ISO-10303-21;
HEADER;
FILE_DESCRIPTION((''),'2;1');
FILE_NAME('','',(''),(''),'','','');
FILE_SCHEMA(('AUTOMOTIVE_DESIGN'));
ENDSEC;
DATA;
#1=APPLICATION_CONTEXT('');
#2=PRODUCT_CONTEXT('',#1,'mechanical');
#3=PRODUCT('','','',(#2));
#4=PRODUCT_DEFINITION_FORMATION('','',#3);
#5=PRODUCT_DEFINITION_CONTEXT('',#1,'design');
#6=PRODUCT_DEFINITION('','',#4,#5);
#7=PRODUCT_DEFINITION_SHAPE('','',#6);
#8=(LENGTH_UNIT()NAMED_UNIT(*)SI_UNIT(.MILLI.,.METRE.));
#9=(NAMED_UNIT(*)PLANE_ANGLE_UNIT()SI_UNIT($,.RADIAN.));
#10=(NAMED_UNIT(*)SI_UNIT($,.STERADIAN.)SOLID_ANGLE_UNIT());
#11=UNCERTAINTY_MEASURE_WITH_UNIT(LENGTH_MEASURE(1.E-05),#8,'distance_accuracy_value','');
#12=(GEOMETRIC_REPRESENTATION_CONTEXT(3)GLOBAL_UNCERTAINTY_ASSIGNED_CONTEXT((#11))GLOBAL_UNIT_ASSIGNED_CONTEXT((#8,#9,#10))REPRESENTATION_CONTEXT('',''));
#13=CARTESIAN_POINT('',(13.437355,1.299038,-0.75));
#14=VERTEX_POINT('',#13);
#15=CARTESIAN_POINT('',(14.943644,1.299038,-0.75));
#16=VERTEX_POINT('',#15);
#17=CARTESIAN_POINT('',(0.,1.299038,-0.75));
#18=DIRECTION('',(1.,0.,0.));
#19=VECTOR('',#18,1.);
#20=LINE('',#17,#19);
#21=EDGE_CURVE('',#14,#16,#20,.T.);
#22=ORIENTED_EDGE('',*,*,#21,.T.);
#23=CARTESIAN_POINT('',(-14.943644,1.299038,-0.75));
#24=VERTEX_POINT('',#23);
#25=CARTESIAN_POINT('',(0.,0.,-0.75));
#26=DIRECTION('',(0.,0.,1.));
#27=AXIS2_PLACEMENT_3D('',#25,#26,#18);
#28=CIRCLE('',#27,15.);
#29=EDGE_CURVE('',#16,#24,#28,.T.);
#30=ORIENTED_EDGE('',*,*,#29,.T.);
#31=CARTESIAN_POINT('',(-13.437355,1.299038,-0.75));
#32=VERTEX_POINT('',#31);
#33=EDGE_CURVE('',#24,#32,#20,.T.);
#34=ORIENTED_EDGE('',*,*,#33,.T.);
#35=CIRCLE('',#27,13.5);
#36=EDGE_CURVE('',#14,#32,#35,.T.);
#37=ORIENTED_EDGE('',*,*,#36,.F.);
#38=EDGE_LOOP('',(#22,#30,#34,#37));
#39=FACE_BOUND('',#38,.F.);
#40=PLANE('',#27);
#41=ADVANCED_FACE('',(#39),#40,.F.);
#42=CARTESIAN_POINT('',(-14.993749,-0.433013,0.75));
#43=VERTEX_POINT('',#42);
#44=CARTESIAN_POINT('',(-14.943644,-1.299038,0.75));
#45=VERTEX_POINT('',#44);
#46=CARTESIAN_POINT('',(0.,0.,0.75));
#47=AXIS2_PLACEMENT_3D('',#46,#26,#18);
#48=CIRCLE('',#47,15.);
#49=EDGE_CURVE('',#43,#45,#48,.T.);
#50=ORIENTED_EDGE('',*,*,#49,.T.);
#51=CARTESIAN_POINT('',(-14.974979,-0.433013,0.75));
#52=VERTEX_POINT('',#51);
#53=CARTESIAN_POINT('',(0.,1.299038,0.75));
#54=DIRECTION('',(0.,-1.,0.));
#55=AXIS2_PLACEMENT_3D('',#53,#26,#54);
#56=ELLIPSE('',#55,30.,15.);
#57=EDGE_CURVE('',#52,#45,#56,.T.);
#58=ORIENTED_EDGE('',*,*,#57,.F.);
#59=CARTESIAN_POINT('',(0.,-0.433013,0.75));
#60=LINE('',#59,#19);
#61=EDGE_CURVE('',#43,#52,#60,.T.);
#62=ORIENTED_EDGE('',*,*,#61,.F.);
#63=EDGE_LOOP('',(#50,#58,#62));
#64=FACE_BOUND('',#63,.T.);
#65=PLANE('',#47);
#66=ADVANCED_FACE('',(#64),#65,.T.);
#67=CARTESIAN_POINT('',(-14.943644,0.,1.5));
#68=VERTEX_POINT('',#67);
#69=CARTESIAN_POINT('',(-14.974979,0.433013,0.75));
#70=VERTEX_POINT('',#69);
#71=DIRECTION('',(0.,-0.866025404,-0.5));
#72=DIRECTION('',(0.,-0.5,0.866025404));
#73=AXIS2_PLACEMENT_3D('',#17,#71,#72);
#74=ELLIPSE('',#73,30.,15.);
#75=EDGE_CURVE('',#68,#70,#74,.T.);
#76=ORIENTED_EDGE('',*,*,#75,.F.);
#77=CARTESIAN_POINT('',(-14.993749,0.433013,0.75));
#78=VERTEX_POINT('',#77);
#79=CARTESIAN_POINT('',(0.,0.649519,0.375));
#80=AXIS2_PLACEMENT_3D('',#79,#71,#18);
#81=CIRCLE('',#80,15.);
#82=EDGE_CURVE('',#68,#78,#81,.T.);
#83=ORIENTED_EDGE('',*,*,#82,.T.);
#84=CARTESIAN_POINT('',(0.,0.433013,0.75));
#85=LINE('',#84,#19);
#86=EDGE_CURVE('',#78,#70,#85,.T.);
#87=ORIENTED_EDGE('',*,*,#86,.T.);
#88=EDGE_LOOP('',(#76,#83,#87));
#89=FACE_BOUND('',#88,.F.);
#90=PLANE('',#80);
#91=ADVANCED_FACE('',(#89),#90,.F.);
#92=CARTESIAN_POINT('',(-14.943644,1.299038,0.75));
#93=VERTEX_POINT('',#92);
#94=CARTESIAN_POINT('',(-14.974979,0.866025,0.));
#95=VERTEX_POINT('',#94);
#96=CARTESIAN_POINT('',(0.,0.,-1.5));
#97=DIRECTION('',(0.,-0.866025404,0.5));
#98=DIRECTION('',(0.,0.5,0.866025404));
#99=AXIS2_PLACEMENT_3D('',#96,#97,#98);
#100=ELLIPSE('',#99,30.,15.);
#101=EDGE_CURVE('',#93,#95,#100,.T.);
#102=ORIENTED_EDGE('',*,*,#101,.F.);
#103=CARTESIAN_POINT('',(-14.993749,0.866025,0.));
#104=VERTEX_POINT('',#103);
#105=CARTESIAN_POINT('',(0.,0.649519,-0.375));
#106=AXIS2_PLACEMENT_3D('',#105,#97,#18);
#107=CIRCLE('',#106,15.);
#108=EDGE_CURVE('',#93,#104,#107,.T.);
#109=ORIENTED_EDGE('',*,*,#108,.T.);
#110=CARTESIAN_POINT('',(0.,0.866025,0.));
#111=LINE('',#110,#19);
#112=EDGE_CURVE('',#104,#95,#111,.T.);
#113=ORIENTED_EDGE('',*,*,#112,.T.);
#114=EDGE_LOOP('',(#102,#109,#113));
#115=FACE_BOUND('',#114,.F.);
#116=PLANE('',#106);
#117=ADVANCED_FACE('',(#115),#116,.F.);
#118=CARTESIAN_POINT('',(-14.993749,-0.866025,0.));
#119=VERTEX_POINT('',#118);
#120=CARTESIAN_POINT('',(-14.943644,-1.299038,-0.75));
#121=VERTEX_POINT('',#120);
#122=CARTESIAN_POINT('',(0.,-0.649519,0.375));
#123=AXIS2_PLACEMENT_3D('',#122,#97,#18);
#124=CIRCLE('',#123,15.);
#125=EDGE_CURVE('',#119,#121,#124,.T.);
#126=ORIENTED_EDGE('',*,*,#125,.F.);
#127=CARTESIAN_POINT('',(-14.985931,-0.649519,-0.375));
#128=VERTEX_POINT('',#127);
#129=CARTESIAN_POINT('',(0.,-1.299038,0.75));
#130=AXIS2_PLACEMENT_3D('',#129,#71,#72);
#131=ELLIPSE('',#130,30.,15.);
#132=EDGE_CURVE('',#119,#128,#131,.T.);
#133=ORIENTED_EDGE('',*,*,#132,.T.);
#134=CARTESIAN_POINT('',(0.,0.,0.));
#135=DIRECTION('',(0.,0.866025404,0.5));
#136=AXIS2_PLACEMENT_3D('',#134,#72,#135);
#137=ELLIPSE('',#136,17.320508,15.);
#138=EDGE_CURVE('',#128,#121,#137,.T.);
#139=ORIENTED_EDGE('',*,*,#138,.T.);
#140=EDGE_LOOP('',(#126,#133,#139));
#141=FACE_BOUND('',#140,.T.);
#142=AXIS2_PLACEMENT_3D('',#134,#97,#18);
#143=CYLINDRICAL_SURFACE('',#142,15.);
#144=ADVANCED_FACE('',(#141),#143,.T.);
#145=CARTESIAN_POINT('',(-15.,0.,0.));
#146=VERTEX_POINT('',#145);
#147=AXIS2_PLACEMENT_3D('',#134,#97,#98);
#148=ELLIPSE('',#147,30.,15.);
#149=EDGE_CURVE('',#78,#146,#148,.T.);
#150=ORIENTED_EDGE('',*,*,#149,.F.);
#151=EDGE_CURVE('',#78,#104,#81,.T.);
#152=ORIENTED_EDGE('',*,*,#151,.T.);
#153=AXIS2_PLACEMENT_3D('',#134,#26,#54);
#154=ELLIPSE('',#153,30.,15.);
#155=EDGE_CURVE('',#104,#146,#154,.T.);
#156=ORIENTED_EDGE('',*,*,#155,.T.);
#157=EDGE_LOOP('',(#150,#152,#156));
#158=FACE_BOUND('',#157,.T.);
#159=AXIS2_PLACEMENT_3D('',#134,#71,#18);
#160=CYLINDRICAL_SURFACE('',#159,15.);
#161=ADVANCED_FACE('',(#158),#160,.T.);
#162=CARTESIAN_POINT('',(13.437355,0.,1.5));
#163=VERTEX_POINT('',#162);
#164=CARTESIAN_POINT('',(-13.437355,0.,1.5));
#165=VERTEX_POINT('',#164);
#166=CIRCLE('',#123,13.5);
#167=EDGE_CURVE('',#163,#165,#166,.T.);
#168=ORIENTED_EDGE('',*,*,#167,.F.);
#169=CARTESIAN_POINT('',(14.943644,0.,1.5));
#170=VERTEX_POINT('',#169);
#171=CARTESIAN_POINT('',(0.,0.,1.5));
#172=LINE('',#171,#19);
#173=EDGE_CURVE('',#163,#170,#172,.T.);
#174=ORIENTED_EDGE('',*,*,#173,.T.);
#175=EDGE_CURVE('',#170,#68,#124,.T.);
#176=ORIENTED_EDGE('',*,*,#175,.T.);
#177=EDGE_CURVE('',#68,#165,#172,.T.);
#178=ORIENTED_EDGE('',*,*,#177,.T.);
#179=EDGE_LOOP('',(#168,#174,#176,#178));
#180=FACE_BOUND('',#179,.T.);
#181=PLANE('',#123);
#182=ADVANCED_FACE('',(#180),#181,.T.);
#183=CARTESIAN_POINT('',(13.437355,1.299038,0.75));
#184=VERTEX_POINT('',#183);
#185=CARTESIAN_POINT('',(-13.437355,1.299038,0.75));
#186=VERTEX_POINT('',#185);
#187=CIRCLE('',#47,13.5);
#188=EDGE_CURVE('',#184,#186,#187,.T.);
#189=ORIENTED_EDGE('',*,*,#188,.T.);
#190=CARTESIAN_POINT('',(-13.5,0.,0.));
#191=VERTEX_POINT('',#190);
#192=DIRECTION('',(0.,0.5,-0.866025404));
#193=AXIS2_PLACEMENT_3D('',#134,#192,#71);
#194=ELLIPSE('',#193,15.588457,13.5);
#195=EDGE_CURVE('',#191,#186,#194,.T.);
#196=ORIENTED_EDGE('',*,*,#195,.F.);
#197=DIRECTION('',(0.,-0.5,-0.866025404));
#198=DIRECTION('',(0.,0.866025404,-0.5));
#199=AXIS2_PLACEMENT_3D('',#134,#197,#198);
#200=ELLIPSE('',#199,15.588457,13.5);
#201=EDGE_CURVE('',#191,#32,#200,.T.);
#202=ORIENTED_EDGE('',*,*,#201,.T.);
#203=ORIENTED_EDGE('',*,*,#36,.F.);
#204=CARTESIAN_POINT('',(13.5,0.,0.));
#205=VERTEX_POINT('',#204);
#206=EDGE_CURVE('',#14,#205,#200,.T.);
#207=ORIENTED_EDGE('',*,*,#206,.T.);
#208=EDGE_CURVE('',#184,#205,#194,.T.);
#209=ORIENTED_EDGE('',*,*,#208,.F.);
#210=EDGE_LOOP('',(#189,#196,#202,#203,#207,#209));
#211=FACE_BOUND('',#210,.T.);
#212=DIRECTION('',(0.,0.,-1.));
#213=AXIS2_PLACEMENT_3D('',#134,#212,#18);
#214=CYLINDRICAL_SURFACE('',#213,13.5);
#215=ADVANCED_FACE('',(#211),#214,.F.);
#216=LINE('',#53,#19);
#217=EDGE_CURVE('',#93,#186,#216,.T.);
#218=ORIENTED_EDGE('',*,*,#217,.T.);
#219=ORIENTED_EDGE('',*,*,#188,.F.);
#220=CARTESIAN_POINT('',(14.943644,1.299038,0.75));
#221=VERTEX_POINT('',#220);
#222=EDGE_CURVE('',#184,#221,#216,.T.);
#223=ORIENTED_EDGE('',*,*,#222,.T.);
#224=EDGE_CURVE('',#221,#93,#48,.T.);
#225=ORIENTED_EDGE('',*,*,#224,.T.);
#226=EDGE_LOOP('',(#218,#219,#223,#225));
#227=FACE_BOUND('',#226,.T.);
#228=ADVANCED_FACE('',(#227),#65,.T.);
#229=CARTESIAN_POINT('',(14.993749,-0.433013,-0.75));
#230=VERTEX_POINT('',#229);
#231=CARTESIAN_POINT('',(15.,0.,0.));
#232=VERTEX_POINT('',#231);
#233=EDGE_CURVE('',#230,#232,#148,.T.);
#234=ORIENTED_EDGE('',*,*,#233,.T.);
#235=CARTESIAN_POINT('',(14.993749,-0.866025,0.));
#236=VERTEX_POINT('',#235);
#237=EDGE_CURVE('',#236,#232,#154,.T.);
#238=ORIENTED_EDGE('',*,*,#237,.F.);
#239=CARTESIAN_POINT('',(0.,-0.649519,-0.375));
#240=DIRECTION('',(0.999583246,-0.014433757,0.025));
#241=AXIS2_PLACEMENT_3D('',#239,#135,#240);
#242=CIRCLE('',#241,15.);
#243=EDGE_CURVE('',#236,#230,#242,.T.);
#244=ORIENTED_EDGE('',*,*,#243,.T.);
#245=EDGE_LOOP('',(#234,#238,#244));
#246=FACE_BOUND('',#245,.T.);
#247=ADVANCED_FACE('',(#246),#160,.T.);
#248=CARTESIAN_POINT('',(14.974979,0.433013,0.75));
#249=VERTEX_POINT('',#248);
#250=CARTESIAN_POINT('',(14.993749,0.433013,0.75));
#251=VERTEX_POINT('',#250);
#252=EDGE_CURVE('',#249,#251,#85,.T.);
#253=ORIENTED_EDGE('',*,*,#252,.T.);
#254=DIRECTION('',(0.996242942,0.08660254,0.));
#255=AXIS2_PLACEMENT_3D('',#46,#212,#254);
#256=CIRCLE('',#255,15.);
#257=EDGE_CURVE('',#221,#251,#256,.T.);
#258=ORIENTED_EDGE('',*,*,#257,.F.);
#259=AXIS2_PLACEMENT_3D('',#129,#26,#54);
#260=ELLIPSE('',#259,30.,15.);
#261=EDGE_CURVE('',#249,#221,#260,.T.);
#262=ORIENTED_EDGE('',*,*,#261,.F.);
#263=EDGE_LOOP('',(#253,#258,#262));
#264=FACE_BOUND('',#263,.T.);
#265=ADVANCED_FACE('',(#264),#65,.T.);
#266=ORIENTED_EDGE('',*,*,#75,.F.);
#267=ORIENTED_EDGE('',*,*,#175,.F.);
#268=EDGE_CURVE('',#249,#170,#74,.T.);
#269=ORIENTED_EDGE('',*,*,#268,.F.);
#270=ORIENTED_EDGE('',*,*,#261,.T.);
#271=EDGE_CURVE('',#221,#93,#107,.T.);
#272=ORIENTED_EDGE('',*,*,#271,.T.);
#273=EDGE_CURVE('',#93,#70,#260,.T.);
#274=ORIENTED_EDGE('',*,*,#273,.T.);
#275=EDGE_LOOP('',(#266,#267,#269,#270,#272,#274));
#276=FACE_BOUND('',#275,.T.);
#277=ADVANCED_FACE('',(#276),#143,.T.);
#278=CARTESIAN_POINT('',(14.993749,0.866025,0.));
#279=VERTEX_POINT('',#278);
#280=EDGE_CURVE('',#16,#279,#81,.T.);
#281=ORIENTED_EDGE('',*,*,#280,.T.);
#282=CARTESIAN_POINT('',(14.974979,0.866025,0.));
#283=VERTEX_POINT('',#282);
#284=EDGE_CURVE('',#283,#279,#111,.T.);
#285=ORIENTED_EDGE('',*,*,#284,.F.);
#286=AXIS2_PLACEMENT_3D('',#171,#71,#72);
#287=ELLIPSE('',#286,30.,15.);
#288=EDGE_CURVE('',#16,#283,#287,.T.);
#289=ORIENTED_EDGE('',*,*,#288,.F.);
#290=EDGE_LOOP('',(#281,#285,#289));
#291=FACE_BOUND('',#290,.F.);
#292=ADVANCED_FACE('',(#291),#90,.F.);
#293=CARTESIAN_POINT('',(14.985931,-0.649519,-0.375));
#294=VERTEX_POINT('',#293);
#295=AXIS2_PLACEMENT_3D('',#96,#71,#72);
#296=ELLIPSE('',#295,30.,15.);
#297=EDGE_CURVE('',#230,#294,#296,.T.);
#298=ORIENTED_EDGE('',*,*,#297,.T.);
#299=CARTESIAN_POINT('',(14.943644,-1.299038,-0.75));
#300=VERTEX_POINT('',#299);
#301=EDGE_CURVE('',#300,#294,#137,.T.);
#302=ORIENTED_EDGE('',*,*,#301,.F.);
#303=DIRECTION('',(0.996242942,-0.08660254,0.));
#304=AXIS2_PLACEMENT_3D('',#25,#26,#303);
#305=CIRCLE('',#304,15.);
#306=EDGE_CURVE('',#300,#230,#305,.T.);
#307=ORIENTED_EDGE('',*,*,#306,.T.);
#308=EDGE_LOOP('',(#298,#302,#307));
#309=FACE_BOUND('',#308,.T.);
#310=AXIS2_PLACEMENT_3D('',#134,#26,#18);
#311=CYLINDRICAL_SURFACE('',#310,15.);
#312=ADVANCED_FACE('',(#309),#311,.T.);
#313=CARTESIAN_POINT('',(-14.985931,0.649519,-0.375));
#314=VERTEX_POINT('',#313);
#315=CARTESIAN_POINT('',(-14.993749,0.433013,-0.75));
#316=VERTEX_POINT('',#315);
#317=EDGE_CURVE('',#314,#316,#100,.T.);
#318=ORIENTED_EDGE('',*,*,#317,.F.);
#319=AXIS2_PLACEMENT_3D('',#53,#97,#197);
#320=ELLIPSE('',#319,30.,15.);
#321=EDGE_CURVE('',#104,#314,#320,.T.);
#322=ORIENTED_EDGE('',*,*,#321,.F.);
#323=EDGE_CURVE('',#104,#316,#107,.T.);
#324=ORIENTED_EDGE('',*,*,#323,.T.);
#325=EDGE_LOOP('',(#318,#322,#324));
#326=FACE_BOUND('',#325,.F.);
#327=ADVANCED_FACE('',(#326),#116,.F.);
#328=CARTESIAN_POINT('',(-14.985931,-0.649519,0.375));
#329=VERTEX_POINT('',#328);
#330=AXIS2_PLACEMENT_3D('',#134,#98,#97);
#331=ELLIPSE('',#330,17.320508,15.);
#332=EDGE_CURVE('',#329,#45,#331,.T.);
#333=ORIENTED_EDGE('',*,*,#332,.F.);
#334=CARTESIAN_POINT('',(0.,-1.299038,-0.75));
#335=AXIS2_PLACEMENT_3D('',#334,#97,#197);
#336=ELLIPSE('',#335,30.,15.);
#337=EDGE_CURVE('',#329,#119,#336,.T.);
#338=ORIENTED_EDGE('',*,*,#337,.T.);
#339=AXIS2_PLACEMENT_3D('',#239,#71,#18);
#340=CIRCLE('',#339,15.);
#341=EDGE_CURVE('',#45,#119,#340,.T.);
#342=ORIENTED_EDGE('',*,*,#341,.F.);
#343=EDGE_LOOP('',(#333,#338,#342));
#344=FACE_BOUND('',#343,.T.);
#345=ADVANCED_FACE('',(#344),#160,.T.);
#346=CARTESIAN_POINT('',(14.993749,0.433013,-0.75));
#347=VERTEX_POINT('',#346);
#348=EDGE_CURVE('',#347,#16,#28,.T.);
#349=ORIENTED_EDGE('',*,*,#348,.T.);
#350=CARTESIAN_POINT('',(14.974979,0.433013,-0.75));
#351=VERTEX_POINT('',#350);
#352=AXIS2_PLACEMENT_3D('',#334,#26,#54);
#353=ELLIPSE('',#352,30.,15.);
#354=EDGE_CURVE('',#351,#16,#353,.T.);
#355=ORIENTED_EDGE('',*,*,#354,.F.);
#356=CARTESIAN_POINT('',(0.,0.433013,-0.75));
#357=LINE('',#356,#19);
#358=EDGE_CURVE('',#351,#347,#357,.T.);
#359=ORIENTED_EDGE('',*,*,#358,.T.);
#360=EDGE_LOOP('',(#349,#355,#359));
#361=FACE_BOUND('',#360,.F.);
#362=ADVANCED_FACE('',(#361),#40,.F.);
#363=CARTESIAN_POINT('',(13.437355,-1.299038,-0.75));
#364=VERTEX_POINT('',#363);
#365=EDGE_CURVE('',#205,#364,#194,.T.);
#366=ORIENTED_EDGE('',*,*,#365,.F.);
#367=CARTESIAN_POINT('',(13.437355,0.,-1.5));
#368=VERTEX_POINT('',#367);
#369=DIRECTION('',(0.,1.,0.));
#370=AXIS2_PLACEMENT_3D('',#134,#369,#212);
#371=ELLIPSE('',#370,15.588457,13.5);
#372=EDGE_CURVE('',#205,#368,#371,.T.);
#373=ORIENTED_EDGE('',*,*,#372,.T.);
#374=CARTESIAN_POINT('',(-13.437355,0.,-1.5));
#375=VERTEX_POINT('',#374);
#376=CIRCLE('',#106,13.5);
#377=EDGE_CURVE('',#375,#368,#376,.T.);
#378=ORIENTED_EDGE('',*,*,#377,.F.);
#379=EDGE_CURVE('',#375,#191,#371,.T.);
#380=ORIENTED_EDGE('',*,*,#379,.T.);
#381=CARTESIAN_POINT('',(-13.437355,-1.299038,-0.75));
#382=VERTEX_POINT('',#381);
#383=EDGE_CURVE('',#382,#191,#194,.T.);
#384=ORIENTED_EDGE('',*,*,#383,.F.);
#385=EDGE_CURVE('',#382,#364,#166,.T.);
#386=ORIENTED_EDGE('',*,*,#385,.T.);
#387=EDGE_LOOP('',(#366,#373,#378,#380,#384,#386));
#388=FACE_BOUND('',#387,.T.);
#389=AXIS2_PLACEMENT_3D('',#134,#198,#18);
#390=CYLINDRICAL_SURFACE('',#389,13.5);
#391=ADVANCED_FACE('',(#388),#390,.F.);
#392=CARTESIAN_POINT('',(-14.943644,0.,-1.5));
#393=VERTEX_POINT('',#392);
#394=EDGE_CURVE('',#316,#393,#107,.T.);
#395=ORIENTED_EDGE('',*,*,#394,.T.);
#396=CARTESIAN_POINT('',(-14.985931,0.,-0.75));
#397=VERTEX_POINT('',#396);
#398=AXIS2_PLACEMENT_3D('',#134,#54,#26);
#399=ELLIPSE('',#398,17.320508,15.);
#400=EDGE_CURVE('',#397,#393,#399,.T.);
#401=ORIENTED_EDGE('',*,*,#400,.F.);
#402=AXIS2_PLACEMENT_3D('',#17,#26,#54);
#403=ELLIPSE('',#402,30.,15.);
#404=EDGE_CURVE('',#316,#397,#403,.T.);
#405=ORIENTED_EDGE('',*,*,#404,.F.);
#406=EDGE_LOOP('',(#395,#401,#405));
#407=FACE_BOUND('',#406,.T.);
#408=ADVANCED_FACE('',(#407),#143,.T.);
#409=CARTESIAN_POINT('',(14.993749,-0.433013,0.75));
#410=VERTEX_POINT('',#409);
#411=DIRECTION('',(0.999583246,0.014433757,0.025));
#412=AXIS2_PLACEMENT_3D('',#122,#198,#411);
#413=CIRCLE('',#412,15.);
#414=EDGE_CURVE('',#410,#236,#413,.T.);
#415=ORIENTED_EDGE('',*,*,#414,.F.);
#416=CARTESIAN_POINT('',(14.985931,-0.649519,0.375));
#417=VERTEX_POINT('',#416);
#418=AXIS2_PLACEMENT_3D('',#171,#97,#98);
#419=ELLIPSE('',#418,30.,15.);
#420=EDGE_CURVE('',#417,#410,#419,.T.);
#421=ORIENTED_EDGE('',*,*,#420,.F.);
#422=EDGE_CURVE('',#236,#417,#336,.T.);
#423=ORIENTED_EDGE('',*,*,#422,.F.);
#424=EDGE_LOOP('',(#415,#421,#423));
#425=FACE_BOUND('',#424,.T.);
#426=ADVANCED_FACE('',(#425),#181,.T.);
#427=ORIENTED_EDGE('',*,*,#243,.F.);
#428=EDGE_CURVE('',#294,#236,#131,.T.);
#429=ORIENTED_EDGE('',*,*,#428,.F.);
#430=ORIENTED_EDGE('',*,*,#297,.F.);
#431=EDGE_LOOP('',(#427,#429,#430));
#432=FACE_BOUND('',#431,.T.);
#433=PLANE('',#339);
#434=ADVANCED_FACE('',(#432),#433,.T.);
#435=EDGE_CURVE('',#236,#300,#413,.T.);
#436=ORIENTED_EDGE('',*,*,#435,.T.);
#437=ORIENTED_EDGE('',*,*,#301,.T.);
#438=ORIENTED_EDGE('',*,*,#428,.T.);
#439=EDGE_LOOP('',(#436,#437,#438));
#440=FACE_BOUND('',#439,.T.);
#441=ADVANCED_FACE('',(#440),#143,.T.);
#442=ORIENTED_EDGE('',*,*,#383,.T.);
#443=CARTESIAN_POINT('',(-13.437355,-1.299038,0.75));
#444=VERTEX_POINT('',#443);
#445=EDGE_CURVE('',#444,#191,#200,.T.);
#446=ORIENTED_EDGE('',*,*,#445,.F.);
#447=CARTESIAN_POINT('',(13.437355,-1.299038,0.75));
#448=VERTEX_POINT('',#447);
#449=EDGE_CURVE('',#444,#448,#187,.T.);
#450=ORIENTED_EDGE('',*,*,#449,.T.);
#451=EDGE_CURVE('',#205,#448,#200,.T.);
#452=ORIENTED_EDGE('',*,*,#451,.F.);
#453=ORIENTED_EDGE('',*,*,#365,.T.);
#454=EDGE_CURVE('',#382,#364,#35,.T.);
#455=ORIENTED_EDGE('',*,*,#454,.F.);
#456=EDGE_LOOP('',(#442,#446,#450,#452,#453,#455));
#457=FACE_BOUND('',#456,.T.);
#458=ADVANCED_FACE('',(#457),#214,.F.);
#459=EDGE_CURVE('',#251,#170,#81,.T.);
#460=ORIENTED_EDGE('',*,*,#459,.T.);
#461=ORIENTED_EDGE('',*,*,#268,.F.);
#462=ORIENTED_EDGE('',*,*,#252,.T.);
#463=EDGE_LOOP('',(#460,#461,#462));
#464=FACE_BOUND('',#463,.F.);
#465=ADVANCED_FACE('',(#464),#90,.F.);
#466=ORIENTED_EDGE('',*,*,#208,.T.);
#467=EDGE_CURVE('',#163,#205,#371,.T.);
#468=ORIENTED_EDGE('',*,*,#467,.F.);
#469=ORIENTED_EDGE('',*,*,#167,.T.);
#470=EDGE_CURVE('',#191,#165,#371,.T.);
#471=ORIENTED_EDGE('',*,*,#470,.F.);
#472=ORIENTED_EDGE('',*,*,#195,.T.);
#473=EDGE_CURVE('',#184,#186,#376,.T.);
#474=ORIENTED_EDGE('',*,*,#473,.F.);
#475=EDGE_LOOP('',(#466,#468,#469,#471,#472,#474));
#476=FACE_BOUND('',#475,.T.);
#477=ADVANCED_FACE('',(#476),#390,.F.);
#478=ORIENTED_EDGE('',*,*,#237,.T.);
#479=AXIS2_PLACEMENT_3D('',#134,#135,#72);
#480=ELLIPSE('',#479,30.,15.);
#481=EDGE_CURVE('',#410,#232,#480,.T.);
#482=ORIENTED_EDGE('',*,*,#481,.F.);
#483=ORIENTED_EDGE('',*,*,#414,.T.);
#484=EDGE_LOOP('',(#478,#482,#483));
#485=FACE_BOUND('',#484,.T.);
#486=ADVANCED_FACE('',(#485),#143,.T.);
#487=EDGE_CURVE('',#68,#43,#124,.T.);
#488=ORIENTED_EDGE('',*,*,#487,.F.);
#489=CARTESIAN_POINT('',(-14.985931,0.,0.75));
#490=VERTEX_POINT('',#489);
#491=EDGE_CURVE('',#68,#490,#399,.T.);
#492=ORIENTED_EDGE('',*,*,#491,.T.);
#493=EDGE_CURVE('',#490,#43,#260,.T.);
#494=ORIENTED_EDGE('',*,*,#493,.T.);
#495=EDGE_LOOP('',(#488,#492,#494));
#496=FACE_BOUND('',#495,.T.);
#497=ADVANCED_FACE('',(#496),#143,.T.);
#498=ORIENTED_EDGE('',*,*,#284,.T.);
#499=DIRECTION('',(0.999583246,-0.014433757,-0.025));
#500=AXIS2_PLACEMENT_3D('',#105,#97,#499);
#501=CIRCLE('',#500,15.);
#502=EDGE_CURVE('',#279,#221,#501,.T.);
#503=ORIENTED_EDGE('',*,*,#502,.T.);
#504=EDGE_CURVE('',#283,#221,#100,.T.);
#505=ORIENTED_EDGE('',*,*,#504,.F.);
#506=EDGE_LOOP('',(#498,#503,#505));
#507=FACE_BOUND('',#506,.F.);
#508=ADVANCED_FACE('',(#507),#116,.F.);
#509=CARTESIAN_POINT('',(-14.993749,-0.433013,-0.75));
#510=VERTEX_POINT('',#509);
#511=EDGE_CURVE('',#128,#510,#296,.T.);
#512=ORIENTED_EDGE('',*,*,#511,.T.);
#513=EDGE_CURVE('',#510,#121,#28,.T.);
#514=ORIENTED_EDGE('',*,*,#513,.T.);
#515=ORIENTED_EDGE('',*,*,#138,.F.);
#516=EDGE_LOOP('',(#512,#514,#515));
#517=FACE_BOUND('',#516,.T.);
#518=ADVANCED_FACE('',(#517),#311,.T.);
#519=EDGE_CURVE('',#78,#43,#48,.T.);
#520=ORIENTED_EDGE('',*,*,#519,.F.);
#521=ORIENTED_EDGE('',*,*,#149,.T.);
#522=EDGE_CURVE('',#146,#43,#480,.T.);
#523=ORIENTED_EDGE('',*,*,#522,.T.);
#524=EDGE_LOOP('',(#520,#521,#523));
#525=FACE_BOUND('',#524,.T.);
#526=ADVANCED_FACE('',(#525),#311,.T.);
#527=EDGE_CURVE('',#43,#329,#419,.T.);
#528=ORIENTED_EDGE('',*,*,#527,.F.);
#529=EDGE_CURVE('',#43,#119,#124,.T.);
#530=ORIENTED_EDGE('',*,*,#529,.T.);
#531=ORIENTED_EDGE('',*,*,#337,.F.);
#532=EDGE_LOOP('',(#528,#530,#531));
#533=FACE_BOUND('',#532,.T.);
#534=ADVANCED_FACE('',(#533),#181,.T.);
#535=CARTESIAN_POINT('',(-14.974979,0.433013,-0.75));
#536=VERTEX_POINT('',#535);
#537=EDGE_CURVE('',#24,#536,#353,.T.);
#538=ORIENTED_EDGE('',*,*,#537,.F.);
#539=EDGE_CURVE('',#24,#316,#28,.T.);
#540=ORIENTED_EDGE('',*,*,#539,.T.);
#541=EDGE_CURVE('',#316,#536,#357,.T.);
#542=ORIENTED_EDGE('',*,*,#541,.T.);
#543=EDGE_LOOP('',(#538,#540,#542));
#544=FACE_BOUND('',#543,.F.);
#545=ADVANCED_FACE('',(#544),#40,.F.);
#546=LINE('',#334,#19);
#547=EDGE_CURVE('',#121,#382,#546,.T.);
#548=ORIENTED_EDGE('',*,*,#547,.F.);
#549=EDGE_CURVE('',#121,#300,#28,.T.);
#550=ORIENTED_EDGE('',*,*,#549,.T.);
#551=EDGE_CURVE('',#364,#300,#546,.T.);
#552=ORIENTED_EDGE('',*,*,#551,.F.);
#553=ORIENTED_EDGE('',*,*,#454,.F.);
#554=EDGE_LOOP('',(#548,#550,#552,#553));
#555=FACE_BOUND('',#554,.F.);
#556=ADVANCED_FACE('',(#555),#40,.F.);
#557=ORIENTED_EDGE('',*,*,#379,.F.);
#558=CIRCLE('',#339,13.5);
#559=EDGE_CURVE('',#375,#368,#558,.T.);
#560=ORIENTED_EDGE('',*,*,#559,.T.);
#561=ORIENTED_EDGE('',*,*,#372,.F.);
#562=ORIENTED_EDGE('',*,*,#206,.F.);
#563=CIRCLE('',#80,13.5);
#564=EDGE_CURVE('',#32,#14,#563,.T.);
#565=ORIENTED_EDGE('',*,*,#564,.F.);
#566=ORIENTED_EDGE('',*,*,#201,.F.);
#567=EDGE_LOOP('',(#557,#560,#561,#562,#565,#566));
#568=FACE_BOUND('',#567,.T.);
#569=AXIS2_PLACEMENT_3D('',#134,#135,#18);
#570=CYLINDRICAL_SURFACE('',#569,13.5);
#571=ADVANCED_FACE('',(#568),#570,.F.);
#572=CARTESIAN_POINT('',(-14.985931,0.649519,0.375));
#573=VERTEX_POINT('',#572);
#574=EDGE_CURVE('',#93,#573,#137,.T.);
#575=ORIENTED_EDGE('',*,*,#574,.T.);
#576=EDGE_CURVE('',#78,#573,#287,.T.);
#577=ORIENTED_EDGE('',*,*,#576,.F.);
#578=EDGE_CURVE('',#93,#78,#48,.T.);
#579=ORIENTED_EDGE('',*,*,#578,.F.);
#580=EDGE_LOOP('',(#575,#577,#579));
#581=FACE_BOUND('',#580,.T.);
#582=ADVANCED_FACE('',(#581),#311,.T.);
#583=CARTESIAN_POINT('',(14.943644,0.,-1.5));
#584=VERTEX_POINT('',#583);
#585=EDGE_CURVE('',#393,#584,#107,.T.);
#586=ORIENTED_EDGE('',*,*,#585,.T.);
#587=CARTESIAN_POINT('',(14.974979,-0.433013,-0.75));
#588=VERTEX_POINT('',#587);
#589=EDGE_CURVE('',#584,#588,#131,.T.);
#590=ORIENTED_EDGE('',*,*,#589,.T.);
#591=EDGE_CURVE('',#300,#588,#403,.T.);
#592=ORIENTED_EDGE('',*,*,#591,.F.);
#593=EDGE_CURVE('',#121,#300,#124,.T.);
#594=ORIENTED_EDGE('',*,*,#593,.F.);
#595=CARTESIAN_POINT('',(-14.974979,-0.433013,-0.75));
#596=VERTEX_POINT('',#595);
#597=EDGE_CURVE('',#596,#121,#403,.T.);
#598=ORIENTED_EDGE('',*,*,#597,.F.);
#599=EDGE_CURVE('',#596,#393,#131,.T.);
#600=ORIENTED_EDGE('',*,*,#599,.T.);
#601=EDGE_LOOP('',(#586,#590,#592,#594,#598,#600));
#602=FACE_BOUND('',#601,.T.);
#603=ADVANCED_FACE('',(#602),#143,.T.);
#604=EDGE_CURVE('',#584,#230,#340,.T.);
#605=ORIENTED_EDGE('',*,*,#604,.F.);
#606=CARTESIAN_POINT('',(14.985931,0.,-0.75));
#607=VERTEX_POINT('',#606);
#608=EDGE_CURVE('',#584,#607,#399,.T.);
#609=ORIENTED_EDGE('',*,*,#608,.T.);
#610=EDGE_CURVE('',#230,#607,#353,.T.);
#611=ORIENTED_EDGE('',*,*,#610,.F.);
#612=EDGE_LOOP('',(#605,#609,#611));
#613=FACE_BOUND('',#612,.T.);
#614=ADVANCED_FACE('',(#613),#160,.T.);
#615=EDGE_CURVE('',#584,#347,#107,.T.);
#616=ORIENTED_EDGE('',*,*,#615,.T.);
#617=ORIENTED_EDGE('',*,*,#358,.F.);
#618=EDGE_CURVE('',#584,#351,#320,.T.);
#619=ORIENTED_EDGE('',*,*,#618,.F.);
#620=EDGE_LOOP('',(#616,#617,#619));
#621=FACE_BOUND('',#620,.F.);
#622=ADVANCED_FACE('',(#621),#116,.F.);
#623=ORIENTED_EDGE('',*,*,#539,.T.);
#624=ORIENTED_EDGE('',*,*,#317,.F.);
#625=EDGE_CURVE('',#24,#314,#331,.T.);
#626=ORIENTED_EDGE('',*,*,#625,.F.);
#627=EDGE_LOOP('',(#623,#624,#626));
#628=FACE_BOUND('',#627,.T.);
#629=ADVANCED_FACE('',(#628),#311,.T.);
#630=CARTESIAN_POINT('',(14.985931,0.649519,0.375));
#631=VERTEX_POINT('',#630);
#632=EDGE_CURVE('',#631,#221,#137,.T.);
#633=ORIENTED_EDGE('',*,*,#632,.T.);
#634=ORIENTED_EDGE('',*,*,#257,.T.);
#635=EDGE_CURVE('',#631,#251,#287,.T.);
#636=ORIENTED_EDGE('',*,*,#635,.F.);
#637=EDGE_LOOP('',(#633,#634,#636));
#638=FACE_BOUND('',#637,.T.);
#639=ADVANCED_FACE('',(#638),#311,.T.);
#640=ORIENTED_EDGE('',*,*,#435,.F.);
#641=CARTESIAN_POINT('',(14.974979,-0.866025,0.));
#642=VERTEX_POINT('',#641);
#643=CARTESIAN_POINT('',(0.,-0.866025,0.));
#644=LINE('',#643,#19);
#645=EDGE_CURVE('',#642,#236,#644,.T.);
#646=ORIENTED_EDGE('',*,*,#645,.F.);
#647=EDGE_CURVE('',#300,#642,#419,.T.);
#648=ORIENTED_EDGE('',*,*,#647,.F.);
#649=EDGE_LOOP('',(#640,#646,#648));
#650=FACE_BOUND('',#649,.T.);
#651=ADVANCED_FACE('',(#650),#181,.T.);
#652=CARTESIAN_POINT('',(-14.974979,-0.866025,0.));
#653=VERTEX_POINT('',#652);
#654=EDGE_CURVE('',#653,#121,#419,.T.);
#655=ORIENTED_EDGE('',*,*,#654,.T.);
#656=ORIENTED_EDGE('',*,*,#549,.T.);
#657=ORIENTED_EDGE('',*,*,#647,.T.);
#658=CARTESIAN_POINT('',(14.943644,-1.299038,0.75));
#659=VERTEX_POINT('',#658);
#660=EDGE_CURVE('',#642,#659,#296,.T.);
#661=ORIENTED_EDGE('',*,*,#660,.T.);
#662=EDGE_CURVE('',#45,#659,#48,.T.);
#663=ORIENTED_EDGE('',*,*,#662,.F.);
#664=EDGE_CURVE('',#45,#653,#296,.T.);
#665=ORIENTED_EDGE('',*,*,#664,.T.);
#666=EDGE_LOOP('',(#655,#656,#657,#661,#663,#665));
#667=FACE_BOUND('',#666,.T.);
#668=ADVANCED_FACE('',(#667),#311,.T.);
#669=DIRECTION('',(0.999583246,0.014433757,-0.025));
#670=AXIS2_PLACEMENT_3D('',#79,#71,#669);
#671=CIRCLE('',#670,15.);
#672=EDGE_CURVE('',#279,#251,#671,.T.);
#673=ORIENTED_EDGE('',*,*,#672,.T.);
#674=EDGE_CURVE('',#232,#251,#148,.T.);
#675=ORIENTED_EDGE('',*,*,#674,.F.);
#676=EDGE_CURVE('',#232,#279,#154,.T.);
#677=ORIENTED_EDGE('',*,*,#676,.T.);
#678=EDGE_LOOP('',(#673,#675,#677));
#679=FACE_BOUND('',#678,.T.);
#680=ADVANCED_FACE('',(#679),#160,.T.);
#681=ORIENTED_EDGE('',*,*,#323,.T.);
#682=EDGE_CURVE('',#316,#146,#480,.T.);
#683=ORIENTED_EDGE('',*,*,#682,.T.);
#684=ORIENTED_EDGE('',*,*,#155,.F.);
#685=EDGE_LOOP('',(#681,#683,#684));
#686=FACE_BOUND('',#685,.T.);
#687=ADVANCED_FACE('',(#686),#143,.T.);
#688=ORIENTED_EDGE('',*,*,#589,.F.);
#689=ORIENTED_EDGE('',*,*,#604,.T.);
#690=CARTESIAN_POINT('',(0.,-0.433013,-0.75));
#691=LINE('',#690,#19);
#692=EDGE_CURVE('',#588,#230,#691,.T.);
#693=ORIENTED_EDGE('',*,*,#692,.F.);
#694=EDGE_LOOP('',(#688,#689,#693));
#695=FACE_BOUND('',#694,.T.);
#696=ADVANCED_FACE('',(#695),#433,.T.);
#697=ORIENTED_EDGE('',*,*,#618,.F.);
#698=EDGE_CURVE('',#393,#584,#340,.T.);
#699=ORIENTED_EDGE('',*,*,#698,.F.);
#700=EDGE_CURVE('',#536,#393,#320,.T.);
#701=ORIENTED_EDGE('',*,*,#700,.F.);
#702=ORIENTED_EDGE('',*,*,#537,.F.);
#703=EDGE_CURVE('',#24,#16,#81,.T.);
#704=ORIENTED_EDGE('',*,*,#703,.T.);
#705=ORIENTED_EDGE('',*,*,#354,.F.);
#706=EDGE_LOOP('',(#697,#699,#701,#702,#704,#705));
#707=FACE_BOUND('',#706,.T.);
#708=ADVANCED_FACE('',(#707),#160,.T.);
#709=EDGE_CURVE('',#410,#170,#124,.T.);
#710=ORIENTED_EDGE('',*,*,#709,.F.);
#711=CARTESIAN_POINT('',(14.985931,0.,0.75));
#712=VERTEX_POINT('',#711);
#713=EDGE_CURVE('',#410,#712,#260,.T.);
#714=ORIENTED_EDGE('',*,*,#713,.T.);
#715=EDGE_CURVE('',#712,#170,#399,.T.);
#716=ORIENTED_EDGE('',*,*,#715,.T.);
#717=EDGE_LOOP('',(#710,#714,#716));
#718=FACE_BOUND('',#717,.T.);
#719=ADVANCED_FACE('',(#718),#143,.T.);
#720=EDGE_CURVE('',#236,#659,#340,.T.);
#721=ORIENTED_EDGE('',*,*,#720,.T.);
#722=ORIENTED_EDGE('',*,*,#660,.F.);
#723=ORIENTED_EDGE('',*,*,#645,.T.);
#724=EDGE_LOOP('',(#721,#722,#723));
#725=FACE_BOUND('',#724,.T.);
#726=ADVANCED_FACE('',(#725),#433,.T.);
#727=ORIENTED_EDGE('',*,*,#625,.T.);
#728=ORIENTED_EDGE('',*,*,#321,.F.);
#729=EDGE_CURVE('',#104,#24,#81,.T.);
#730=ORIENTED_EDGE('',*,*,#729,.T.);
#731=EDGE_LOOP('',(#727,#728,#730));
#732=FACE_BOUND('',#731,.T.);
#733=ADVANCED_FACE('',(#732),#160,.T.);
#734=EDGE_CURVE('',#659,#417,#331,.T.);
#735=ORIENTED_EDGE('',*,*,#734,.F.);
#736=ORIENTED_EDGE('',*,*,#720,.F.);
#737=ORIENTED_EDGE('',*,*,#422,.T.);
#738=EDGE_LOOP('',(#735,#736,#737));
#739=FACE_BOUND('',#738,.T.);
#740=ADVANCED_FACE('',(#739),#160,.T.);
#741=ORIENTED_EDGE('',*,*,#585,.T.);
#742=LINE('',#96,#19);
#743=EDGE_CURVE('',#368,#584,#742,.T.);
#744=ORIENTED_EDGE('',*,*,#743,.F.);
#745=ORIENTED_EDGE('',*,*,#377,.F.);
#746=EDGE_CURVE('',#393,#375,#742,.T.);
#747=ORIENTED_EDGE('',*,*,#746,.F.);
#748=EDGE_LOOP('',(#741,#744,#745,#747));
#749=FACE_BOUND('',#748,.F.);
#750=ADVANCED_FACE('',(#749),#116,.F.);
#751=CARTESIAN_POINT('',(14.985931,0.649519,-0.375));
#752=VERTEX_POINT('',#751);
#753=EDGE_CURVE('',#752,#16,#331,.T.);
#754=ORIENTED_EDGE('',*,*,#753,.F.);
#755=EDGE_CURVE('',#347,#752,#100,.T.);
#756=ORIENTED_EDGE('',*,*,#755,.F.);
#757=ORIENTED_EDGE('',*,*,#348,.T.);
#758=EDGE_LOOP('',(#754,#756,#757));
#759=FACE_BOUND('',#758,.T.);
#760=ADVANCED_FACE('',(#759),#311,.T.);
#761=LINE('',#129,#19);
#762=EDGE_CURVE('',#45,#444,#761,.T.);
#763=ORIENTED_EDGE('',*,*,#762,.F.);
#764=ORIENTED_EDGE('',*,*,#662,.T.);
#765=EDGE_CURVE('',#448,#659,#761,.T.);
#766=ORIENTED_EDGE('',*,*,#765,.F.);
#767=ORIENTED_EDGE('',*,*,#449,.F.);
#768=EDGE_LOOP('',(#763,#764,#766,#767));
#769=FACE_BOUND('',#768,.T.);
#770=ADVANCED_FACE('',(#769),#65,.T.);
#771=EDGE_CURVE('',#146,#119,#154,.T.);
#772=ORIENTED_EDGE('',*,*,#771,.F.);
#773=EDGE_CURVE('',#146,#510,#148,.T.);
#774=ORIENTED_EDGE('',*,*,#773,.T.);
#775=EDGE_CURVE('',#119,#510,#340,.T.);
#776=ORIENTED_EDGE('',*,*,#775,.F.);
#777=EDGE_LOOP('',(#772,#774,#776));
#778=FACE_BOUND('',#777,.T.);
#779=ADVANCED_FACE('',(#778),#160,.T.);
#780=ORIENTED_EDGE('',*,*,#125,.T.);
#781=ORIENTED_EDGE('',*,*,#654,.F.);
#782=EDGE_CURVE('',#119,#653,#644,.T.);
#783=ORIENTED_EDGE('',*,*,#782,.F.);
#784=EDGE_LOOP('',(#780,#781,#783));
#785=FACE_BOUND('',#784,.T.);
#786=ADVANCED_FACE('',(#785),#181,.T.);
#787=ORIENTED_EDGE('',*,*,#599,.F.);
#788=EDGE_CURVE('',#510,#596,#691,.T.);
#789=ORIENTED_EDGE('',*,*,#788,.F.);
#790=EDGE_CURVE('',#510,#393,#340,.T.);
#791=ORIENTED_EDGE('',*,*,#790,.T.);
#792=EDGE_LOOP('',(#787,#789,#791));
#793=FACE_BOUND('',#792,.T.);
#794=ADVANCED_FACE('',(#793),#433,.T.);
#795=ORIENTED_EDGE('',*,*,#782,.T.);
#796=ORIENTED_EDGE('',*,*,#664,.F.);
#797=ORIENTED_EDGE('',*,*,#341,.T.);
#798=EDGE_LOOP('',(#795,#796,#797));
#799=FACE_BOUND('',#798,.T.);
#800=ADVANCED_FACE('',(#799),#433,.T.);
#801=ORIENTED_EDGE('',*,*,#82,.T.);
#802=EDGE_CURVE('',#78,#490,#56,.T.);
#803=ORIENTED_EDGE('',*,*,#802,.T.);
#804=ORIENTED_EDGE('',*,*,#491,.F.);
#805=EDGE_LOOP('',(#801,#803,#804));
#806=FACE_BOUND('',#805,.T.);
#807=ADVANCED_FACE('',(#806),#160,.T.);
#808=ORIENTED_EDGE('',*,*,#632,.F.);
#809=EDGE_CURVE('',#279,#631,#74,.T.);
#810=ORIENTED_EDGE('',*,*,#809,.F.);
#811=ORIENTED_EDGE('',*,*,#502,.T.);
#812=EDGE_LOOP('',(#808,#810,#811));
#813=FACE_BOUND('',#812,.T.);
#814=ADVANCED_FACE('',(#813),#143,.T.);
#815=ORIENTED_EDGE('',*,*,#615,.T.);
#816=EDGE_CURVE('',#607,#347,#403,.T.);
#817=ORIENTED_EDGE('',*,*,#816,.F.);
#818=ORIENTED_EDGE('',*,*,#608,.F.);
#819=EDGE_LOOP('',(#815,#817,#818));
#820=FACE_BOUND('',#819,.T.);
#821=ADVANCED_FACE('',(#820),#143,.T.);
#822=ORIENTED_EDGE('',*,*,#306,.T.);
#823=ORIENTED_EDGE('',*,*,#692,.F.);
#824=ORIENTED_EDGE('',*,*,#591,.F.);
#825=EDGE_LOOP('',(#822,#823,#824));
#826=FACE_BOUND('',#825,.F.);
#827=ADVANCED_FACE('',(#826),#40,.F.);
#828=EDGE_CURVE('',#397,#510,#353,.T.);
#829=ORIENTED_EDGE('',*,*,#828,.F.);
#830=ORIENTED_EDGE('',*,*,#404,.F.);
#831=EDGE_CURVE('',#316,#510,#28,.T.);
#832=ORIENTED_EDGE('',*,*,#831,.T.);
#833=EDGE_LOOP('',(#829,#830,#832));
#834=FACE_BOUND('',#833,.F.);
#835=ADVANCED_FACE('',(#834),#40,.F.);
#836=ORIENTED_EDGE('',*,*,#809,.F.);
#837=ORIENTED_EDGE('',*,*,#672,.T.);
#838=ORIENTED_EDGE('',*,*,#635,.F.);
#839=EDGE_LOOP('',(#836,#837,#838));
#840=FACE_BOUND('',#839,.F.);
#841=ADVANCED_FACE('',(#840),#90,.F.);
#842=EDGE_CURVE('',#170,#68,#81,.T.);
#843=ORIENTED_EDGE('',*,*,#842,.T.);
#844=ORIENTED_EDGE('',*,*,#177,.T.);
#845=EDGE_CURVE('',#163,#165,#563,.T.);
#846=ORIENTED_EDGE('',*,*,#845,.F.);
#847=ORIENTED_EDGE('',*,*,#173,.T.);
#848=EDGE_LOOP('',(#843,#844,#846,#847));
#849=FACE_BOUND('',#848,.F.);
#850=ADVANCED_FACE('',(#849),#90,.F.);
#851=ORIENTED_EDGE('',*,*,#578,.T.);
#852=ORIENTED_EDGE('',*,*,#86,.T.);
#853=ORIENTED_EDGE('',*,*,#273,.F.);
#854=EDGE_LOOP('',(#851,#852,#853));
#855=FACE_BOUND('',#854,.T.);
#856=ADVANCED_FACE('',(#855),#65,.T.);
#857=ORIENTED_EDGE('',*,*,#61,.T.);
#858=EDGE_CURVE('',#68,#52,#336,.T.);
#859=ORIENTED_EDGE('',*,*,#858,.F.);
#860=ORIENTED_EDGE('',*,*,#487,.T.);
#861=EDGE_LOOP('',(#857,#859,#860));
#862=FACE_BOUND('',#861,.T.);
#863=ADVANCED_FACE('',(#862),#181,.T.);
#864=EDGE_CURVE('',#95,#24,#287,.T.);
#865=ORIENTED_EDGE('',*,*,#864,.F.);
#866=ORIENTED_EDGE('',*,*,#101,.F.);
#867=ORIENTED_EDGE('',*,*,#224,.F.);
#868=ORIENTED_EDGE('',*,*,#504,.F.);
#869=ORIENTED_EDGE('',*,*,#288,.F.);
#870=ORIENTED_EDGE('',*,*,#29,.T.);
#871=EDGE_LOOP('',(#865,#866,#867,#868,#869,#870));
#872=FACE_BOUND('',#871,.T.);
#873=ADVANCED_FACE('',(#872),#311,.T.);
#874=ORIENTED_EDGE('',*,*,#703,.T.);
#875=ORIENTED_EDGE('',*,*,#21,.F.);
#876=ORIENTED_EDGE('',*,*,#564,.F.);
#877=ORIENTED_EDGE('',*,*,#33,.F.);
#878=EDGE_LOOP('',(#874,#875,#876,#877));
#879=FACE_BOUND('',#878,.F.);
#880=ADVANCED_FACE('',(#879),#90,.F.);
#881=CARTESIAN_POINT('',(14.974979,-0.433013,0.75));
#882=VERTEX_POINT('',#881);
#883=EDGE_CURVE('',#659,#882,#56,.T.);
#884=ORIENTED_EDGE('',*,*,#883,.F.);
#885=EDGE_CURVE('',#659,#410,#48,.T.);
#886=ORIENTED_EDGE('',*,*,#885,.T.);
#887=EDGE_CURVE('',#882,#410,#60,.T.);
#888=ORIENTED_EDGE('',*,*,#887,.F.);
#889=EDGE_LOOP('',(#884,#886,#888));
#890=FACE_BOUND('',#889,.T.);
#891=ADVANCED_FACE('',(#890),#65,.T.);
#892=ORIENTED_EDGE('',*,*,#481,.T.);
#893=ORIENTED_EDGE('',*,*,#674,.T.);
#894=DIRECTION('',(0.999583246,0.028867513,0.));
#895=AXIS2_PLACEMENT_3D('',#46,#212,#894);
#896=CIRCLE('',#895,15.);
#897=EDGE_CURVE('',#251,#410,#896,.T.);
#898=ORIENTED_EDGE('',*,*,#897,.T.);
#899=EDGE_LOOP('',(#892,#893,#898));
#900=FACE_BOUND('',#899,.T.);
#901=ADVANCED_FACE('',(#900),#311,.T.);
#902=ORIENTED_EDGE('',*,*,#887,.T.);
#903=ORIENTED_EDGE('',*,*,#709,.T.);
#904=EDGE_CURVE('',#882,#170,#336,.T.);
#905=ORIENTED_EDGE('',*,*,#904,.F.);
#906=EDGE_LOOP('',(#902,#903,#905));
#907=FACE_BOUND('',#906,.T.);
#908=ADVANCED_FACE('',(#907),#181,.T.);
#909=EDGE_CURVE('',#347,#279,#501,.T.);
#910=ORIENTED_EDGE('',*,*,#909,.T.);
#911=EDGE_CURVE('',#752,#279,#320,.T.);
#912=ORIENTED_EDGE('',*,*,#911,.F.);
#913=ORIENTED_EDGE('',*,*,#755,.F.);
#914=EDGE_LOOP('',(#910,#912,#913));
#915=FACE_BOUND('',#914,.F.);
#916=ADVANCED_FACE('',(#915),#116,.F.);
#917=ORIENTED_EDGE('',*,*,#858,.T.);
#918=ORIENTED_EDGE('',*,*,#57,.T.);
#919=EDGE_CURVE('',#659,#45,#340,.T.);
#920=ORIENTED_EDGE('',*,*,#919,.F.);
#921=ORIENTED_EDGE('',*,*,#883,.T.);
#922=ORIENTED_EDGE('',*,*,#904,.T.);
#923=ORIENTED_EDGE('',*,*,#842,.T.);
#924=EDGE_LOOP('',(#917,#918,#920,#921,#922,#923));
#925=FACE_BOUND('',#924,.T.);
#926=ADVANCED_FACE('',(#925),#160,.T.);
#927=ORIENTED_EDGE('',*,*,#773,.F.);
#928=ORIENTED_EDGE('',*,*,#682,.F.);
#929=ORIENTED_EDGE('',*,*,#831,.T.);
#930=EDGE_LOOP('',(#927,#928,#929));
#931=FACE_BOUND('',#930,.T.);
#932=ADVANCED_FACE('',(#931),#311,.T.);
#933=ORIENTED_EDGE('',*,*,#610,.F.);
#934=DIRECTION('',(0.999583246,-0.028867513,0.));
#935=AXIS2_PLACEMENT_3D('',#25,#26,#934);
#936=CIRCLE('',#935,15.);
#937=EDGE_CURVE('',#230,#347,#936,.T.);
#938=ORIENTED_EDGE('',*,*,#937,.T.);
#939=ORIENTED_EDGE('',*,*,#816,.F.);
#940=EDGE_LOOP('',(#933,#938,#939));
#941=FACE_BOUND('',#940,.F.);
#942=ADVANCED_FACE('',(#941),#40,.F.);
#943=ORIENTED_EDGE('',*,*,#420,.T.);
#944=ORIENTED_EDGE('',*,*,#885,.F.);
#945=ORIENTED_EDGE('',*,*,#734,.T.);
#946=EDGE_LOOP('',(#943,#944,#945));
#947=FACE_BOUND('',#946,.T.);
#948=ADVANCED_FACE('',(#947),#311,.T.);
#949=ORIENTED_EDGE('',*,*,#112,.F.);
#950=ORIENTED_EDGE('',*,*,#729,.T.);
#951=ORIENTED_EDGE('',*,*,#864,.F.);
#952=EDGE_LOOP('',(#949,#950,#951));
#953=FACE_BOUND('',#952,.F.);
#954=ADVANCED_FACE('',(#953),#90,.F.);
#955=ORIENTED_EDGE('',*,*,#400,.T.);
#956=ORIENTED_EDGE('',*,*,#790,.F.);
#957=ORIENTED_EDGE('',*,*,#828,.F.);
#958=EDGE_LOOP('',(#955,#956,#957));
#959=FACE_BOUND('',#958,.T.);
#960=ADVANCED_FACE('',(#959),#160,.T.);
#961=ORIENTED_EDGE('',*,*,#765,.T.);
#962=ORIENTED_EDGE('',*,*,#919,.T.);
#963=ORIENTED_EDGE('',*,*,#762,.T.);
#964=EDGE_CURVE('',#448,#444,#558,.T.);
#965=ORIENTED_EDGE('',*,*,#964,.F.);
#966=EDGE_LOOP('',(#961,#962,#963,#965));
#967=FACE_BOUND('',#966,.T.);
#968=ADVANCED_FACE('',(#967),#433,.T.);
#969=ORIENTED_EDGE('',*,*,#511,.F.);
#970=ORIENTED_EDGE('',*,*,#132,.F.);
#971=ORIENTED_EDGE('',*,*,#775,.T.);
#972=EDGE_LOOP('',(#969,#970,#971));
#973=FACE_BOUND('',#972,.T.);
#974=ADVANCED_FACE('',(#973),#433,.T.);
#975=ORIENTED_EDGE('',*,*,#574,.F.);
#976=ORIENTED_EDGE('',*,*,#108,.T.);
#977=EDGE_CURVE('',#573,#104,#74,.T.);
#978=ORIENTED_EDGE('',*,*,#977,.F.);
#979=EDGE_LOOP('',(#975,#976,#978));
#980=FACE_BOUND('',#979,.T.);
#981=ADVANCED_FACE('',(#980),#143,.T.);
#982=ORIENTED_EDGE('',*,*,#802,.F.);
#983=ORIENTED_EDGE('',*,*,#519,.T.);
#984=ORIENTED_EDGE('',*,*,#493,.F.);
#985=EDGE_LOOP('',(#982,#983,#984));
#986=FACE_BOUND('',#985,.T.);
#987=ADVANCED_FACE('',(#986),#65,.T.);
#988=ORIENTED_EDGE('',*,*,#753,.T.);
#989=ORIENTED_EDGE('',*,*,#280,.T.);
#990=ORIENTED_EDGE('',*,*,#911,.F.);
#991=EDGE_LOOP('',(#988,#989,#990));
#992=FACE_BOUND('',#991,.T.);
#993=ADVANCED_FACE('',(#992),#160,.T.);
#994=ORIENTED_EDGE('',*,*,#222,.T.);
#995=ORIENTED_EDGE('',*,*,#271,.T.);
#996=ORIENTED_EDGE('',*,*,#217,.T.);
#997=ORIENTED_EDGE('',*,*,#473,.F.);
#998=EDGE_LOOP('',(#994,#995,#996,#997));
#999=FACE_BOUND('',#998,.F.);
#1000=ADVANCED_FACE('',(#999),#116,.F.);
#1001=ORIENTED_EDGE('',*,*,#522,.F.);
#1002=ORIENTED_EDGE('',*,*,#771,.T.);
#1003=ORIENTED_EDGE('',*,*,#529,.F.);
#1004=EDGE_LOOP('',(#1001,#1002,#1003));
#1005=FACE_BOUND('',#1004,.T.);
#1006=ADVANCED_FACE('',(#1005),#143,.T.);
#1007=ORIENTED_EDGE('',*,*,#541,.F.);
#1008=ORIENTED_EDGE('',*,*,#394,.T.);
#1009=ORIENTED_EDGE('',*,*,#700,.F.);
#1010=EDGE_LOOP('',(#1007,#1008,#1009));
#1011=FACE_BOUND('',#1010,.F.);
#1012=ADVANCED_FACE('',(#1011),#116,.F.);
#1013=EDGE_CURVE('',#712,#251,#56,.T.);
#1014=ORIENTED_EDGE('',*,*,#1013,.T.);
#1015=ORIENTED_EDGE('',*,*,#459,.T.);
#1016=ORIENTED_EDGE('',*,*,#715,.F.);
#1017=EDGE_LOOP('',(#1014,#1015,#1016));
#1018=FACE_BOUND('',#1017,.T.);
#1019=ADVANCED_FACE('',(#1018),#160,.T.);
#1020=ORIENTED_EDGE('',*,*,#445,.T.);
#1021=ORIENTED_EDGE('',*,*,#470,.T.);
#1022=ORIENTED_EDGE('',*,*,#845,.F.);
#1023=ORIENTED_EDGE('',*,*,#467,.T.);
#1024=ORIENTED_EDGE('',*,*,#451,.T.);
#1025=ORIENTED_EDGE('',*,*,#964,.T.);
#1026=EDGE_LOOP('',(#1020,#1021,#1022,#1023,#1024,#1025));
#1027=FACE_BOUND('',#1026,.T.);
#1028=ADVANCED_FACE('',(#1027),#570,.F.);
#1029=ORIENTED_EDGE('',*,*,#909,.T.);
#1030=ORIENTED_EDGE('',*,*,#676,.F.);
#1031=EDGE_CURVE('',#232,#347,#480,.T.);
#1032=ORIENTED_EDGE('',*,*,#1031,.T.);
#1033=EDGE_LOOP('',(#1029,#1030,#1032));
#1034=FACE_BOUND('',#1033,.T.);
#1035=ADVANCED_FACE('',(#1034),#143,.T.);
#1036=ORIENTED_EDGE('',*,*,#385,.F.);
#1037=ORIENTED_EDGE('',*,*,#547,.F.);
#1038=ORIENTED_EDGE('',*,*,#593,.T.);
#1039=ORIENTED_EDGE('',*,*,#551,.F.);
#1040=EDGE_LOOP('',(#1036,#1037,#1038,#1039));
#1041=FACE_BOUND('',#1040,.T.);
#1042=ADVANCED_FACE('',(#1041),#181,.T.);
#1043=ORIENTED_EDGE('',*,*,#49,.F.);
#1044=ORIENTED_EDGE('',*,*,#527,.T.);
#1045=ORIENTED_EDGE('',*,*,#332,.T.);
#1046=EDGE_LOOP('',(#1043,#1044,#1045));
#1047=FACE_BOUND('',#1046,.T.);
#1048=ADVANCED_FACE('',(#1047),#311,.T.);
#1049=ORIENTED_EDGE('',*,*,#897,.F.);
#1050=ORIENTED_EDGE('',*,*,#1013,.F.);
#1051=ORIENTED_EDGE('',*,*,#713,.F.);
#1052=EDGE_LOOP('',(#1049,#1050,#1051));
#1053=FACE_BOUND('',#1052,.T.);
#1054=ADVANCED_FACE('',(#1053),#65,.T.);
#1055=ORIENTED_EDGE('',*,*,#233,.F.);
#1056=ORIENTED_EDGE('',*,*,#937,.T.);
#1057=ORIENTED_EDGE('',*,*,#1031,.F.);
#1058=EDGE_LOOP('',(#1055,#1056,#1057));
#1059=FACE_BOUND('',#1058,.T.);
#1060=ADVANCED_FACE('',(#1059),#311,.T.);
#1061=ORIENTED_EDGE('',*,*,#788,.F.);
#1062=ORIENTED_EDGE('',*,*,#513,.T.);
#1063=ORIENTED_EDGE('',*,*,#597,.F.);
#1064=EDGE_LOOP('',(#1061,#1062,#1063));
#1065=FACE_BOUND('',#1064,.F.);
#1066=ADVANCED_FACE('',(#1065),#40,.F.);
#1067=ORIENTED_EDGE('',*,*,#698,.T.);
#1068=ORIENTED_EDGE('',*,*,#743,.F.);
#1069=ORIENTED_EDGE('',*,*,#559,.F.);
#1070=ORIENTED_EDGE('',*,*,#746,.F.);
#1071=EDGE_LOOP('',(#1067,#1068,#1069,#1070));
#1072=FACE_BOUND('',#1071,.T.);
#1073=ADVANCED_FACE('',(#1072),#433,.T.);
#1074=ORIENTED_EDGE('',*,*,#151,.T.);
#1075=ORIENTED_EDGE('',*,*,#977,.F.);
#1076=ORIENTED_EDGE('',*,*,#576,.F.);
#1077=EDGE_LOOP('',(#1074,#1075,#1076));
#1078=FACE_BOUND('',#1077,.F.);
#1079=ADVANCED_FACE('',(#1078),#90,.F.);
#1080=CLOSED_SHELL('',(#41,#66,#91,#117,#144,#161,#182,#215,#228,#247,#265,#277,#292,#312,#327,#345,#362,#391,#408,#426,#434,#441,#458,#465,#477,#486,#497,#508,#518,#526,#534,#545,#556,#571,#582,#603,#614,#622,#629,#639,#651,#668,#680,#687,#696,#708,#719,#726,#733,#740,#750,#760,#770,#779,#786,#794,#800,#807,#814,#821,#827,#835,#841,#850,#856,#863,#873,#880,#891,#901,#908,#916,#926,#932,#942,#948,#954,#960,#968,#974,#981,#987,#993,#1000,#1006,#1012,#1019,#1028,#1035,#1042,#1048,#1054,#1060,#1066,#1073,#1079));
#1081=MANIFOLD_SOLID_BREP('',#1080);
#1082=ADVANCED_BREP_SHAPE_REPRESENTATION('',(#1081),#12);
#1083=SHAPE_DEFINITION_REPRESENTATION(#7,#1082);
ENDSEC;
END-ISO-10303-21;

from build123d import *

# Parameters (mm, degrees)
SKETCH1_R           = 15
SKETCH1_R_2         = 13.5
BOSS_EXTRUDE1_DEPTH = 0.75
CIRPATTERN1_COUNT   = 6


with BuildPart() as part:
    # Sketch1 → Boss-Extrude1 (new, symmetric)
    with BuildSketch(Plane.XY):
        Circle(SKETCH1_R)
        Circle(SKETCH1_R_2, mode=Mode.SUBTRACT)
    boss_extrude1 = extrude(amount=BOSS_EXTRUDE1_DEPTH, both=True)

    # CirPattern1: Boss-Extrude1 ×6 about axis
    cirpattern1_axis = Axis((16.5, 0, 0), (-1, 0, 0))
    for i in range(1, CIRPATTERN1_COUNT):
        add(boss_extrude1.rotate(cirpattern1_axis, i * 360 / CIRPATTERN1_COUNT))


solid = part.part
